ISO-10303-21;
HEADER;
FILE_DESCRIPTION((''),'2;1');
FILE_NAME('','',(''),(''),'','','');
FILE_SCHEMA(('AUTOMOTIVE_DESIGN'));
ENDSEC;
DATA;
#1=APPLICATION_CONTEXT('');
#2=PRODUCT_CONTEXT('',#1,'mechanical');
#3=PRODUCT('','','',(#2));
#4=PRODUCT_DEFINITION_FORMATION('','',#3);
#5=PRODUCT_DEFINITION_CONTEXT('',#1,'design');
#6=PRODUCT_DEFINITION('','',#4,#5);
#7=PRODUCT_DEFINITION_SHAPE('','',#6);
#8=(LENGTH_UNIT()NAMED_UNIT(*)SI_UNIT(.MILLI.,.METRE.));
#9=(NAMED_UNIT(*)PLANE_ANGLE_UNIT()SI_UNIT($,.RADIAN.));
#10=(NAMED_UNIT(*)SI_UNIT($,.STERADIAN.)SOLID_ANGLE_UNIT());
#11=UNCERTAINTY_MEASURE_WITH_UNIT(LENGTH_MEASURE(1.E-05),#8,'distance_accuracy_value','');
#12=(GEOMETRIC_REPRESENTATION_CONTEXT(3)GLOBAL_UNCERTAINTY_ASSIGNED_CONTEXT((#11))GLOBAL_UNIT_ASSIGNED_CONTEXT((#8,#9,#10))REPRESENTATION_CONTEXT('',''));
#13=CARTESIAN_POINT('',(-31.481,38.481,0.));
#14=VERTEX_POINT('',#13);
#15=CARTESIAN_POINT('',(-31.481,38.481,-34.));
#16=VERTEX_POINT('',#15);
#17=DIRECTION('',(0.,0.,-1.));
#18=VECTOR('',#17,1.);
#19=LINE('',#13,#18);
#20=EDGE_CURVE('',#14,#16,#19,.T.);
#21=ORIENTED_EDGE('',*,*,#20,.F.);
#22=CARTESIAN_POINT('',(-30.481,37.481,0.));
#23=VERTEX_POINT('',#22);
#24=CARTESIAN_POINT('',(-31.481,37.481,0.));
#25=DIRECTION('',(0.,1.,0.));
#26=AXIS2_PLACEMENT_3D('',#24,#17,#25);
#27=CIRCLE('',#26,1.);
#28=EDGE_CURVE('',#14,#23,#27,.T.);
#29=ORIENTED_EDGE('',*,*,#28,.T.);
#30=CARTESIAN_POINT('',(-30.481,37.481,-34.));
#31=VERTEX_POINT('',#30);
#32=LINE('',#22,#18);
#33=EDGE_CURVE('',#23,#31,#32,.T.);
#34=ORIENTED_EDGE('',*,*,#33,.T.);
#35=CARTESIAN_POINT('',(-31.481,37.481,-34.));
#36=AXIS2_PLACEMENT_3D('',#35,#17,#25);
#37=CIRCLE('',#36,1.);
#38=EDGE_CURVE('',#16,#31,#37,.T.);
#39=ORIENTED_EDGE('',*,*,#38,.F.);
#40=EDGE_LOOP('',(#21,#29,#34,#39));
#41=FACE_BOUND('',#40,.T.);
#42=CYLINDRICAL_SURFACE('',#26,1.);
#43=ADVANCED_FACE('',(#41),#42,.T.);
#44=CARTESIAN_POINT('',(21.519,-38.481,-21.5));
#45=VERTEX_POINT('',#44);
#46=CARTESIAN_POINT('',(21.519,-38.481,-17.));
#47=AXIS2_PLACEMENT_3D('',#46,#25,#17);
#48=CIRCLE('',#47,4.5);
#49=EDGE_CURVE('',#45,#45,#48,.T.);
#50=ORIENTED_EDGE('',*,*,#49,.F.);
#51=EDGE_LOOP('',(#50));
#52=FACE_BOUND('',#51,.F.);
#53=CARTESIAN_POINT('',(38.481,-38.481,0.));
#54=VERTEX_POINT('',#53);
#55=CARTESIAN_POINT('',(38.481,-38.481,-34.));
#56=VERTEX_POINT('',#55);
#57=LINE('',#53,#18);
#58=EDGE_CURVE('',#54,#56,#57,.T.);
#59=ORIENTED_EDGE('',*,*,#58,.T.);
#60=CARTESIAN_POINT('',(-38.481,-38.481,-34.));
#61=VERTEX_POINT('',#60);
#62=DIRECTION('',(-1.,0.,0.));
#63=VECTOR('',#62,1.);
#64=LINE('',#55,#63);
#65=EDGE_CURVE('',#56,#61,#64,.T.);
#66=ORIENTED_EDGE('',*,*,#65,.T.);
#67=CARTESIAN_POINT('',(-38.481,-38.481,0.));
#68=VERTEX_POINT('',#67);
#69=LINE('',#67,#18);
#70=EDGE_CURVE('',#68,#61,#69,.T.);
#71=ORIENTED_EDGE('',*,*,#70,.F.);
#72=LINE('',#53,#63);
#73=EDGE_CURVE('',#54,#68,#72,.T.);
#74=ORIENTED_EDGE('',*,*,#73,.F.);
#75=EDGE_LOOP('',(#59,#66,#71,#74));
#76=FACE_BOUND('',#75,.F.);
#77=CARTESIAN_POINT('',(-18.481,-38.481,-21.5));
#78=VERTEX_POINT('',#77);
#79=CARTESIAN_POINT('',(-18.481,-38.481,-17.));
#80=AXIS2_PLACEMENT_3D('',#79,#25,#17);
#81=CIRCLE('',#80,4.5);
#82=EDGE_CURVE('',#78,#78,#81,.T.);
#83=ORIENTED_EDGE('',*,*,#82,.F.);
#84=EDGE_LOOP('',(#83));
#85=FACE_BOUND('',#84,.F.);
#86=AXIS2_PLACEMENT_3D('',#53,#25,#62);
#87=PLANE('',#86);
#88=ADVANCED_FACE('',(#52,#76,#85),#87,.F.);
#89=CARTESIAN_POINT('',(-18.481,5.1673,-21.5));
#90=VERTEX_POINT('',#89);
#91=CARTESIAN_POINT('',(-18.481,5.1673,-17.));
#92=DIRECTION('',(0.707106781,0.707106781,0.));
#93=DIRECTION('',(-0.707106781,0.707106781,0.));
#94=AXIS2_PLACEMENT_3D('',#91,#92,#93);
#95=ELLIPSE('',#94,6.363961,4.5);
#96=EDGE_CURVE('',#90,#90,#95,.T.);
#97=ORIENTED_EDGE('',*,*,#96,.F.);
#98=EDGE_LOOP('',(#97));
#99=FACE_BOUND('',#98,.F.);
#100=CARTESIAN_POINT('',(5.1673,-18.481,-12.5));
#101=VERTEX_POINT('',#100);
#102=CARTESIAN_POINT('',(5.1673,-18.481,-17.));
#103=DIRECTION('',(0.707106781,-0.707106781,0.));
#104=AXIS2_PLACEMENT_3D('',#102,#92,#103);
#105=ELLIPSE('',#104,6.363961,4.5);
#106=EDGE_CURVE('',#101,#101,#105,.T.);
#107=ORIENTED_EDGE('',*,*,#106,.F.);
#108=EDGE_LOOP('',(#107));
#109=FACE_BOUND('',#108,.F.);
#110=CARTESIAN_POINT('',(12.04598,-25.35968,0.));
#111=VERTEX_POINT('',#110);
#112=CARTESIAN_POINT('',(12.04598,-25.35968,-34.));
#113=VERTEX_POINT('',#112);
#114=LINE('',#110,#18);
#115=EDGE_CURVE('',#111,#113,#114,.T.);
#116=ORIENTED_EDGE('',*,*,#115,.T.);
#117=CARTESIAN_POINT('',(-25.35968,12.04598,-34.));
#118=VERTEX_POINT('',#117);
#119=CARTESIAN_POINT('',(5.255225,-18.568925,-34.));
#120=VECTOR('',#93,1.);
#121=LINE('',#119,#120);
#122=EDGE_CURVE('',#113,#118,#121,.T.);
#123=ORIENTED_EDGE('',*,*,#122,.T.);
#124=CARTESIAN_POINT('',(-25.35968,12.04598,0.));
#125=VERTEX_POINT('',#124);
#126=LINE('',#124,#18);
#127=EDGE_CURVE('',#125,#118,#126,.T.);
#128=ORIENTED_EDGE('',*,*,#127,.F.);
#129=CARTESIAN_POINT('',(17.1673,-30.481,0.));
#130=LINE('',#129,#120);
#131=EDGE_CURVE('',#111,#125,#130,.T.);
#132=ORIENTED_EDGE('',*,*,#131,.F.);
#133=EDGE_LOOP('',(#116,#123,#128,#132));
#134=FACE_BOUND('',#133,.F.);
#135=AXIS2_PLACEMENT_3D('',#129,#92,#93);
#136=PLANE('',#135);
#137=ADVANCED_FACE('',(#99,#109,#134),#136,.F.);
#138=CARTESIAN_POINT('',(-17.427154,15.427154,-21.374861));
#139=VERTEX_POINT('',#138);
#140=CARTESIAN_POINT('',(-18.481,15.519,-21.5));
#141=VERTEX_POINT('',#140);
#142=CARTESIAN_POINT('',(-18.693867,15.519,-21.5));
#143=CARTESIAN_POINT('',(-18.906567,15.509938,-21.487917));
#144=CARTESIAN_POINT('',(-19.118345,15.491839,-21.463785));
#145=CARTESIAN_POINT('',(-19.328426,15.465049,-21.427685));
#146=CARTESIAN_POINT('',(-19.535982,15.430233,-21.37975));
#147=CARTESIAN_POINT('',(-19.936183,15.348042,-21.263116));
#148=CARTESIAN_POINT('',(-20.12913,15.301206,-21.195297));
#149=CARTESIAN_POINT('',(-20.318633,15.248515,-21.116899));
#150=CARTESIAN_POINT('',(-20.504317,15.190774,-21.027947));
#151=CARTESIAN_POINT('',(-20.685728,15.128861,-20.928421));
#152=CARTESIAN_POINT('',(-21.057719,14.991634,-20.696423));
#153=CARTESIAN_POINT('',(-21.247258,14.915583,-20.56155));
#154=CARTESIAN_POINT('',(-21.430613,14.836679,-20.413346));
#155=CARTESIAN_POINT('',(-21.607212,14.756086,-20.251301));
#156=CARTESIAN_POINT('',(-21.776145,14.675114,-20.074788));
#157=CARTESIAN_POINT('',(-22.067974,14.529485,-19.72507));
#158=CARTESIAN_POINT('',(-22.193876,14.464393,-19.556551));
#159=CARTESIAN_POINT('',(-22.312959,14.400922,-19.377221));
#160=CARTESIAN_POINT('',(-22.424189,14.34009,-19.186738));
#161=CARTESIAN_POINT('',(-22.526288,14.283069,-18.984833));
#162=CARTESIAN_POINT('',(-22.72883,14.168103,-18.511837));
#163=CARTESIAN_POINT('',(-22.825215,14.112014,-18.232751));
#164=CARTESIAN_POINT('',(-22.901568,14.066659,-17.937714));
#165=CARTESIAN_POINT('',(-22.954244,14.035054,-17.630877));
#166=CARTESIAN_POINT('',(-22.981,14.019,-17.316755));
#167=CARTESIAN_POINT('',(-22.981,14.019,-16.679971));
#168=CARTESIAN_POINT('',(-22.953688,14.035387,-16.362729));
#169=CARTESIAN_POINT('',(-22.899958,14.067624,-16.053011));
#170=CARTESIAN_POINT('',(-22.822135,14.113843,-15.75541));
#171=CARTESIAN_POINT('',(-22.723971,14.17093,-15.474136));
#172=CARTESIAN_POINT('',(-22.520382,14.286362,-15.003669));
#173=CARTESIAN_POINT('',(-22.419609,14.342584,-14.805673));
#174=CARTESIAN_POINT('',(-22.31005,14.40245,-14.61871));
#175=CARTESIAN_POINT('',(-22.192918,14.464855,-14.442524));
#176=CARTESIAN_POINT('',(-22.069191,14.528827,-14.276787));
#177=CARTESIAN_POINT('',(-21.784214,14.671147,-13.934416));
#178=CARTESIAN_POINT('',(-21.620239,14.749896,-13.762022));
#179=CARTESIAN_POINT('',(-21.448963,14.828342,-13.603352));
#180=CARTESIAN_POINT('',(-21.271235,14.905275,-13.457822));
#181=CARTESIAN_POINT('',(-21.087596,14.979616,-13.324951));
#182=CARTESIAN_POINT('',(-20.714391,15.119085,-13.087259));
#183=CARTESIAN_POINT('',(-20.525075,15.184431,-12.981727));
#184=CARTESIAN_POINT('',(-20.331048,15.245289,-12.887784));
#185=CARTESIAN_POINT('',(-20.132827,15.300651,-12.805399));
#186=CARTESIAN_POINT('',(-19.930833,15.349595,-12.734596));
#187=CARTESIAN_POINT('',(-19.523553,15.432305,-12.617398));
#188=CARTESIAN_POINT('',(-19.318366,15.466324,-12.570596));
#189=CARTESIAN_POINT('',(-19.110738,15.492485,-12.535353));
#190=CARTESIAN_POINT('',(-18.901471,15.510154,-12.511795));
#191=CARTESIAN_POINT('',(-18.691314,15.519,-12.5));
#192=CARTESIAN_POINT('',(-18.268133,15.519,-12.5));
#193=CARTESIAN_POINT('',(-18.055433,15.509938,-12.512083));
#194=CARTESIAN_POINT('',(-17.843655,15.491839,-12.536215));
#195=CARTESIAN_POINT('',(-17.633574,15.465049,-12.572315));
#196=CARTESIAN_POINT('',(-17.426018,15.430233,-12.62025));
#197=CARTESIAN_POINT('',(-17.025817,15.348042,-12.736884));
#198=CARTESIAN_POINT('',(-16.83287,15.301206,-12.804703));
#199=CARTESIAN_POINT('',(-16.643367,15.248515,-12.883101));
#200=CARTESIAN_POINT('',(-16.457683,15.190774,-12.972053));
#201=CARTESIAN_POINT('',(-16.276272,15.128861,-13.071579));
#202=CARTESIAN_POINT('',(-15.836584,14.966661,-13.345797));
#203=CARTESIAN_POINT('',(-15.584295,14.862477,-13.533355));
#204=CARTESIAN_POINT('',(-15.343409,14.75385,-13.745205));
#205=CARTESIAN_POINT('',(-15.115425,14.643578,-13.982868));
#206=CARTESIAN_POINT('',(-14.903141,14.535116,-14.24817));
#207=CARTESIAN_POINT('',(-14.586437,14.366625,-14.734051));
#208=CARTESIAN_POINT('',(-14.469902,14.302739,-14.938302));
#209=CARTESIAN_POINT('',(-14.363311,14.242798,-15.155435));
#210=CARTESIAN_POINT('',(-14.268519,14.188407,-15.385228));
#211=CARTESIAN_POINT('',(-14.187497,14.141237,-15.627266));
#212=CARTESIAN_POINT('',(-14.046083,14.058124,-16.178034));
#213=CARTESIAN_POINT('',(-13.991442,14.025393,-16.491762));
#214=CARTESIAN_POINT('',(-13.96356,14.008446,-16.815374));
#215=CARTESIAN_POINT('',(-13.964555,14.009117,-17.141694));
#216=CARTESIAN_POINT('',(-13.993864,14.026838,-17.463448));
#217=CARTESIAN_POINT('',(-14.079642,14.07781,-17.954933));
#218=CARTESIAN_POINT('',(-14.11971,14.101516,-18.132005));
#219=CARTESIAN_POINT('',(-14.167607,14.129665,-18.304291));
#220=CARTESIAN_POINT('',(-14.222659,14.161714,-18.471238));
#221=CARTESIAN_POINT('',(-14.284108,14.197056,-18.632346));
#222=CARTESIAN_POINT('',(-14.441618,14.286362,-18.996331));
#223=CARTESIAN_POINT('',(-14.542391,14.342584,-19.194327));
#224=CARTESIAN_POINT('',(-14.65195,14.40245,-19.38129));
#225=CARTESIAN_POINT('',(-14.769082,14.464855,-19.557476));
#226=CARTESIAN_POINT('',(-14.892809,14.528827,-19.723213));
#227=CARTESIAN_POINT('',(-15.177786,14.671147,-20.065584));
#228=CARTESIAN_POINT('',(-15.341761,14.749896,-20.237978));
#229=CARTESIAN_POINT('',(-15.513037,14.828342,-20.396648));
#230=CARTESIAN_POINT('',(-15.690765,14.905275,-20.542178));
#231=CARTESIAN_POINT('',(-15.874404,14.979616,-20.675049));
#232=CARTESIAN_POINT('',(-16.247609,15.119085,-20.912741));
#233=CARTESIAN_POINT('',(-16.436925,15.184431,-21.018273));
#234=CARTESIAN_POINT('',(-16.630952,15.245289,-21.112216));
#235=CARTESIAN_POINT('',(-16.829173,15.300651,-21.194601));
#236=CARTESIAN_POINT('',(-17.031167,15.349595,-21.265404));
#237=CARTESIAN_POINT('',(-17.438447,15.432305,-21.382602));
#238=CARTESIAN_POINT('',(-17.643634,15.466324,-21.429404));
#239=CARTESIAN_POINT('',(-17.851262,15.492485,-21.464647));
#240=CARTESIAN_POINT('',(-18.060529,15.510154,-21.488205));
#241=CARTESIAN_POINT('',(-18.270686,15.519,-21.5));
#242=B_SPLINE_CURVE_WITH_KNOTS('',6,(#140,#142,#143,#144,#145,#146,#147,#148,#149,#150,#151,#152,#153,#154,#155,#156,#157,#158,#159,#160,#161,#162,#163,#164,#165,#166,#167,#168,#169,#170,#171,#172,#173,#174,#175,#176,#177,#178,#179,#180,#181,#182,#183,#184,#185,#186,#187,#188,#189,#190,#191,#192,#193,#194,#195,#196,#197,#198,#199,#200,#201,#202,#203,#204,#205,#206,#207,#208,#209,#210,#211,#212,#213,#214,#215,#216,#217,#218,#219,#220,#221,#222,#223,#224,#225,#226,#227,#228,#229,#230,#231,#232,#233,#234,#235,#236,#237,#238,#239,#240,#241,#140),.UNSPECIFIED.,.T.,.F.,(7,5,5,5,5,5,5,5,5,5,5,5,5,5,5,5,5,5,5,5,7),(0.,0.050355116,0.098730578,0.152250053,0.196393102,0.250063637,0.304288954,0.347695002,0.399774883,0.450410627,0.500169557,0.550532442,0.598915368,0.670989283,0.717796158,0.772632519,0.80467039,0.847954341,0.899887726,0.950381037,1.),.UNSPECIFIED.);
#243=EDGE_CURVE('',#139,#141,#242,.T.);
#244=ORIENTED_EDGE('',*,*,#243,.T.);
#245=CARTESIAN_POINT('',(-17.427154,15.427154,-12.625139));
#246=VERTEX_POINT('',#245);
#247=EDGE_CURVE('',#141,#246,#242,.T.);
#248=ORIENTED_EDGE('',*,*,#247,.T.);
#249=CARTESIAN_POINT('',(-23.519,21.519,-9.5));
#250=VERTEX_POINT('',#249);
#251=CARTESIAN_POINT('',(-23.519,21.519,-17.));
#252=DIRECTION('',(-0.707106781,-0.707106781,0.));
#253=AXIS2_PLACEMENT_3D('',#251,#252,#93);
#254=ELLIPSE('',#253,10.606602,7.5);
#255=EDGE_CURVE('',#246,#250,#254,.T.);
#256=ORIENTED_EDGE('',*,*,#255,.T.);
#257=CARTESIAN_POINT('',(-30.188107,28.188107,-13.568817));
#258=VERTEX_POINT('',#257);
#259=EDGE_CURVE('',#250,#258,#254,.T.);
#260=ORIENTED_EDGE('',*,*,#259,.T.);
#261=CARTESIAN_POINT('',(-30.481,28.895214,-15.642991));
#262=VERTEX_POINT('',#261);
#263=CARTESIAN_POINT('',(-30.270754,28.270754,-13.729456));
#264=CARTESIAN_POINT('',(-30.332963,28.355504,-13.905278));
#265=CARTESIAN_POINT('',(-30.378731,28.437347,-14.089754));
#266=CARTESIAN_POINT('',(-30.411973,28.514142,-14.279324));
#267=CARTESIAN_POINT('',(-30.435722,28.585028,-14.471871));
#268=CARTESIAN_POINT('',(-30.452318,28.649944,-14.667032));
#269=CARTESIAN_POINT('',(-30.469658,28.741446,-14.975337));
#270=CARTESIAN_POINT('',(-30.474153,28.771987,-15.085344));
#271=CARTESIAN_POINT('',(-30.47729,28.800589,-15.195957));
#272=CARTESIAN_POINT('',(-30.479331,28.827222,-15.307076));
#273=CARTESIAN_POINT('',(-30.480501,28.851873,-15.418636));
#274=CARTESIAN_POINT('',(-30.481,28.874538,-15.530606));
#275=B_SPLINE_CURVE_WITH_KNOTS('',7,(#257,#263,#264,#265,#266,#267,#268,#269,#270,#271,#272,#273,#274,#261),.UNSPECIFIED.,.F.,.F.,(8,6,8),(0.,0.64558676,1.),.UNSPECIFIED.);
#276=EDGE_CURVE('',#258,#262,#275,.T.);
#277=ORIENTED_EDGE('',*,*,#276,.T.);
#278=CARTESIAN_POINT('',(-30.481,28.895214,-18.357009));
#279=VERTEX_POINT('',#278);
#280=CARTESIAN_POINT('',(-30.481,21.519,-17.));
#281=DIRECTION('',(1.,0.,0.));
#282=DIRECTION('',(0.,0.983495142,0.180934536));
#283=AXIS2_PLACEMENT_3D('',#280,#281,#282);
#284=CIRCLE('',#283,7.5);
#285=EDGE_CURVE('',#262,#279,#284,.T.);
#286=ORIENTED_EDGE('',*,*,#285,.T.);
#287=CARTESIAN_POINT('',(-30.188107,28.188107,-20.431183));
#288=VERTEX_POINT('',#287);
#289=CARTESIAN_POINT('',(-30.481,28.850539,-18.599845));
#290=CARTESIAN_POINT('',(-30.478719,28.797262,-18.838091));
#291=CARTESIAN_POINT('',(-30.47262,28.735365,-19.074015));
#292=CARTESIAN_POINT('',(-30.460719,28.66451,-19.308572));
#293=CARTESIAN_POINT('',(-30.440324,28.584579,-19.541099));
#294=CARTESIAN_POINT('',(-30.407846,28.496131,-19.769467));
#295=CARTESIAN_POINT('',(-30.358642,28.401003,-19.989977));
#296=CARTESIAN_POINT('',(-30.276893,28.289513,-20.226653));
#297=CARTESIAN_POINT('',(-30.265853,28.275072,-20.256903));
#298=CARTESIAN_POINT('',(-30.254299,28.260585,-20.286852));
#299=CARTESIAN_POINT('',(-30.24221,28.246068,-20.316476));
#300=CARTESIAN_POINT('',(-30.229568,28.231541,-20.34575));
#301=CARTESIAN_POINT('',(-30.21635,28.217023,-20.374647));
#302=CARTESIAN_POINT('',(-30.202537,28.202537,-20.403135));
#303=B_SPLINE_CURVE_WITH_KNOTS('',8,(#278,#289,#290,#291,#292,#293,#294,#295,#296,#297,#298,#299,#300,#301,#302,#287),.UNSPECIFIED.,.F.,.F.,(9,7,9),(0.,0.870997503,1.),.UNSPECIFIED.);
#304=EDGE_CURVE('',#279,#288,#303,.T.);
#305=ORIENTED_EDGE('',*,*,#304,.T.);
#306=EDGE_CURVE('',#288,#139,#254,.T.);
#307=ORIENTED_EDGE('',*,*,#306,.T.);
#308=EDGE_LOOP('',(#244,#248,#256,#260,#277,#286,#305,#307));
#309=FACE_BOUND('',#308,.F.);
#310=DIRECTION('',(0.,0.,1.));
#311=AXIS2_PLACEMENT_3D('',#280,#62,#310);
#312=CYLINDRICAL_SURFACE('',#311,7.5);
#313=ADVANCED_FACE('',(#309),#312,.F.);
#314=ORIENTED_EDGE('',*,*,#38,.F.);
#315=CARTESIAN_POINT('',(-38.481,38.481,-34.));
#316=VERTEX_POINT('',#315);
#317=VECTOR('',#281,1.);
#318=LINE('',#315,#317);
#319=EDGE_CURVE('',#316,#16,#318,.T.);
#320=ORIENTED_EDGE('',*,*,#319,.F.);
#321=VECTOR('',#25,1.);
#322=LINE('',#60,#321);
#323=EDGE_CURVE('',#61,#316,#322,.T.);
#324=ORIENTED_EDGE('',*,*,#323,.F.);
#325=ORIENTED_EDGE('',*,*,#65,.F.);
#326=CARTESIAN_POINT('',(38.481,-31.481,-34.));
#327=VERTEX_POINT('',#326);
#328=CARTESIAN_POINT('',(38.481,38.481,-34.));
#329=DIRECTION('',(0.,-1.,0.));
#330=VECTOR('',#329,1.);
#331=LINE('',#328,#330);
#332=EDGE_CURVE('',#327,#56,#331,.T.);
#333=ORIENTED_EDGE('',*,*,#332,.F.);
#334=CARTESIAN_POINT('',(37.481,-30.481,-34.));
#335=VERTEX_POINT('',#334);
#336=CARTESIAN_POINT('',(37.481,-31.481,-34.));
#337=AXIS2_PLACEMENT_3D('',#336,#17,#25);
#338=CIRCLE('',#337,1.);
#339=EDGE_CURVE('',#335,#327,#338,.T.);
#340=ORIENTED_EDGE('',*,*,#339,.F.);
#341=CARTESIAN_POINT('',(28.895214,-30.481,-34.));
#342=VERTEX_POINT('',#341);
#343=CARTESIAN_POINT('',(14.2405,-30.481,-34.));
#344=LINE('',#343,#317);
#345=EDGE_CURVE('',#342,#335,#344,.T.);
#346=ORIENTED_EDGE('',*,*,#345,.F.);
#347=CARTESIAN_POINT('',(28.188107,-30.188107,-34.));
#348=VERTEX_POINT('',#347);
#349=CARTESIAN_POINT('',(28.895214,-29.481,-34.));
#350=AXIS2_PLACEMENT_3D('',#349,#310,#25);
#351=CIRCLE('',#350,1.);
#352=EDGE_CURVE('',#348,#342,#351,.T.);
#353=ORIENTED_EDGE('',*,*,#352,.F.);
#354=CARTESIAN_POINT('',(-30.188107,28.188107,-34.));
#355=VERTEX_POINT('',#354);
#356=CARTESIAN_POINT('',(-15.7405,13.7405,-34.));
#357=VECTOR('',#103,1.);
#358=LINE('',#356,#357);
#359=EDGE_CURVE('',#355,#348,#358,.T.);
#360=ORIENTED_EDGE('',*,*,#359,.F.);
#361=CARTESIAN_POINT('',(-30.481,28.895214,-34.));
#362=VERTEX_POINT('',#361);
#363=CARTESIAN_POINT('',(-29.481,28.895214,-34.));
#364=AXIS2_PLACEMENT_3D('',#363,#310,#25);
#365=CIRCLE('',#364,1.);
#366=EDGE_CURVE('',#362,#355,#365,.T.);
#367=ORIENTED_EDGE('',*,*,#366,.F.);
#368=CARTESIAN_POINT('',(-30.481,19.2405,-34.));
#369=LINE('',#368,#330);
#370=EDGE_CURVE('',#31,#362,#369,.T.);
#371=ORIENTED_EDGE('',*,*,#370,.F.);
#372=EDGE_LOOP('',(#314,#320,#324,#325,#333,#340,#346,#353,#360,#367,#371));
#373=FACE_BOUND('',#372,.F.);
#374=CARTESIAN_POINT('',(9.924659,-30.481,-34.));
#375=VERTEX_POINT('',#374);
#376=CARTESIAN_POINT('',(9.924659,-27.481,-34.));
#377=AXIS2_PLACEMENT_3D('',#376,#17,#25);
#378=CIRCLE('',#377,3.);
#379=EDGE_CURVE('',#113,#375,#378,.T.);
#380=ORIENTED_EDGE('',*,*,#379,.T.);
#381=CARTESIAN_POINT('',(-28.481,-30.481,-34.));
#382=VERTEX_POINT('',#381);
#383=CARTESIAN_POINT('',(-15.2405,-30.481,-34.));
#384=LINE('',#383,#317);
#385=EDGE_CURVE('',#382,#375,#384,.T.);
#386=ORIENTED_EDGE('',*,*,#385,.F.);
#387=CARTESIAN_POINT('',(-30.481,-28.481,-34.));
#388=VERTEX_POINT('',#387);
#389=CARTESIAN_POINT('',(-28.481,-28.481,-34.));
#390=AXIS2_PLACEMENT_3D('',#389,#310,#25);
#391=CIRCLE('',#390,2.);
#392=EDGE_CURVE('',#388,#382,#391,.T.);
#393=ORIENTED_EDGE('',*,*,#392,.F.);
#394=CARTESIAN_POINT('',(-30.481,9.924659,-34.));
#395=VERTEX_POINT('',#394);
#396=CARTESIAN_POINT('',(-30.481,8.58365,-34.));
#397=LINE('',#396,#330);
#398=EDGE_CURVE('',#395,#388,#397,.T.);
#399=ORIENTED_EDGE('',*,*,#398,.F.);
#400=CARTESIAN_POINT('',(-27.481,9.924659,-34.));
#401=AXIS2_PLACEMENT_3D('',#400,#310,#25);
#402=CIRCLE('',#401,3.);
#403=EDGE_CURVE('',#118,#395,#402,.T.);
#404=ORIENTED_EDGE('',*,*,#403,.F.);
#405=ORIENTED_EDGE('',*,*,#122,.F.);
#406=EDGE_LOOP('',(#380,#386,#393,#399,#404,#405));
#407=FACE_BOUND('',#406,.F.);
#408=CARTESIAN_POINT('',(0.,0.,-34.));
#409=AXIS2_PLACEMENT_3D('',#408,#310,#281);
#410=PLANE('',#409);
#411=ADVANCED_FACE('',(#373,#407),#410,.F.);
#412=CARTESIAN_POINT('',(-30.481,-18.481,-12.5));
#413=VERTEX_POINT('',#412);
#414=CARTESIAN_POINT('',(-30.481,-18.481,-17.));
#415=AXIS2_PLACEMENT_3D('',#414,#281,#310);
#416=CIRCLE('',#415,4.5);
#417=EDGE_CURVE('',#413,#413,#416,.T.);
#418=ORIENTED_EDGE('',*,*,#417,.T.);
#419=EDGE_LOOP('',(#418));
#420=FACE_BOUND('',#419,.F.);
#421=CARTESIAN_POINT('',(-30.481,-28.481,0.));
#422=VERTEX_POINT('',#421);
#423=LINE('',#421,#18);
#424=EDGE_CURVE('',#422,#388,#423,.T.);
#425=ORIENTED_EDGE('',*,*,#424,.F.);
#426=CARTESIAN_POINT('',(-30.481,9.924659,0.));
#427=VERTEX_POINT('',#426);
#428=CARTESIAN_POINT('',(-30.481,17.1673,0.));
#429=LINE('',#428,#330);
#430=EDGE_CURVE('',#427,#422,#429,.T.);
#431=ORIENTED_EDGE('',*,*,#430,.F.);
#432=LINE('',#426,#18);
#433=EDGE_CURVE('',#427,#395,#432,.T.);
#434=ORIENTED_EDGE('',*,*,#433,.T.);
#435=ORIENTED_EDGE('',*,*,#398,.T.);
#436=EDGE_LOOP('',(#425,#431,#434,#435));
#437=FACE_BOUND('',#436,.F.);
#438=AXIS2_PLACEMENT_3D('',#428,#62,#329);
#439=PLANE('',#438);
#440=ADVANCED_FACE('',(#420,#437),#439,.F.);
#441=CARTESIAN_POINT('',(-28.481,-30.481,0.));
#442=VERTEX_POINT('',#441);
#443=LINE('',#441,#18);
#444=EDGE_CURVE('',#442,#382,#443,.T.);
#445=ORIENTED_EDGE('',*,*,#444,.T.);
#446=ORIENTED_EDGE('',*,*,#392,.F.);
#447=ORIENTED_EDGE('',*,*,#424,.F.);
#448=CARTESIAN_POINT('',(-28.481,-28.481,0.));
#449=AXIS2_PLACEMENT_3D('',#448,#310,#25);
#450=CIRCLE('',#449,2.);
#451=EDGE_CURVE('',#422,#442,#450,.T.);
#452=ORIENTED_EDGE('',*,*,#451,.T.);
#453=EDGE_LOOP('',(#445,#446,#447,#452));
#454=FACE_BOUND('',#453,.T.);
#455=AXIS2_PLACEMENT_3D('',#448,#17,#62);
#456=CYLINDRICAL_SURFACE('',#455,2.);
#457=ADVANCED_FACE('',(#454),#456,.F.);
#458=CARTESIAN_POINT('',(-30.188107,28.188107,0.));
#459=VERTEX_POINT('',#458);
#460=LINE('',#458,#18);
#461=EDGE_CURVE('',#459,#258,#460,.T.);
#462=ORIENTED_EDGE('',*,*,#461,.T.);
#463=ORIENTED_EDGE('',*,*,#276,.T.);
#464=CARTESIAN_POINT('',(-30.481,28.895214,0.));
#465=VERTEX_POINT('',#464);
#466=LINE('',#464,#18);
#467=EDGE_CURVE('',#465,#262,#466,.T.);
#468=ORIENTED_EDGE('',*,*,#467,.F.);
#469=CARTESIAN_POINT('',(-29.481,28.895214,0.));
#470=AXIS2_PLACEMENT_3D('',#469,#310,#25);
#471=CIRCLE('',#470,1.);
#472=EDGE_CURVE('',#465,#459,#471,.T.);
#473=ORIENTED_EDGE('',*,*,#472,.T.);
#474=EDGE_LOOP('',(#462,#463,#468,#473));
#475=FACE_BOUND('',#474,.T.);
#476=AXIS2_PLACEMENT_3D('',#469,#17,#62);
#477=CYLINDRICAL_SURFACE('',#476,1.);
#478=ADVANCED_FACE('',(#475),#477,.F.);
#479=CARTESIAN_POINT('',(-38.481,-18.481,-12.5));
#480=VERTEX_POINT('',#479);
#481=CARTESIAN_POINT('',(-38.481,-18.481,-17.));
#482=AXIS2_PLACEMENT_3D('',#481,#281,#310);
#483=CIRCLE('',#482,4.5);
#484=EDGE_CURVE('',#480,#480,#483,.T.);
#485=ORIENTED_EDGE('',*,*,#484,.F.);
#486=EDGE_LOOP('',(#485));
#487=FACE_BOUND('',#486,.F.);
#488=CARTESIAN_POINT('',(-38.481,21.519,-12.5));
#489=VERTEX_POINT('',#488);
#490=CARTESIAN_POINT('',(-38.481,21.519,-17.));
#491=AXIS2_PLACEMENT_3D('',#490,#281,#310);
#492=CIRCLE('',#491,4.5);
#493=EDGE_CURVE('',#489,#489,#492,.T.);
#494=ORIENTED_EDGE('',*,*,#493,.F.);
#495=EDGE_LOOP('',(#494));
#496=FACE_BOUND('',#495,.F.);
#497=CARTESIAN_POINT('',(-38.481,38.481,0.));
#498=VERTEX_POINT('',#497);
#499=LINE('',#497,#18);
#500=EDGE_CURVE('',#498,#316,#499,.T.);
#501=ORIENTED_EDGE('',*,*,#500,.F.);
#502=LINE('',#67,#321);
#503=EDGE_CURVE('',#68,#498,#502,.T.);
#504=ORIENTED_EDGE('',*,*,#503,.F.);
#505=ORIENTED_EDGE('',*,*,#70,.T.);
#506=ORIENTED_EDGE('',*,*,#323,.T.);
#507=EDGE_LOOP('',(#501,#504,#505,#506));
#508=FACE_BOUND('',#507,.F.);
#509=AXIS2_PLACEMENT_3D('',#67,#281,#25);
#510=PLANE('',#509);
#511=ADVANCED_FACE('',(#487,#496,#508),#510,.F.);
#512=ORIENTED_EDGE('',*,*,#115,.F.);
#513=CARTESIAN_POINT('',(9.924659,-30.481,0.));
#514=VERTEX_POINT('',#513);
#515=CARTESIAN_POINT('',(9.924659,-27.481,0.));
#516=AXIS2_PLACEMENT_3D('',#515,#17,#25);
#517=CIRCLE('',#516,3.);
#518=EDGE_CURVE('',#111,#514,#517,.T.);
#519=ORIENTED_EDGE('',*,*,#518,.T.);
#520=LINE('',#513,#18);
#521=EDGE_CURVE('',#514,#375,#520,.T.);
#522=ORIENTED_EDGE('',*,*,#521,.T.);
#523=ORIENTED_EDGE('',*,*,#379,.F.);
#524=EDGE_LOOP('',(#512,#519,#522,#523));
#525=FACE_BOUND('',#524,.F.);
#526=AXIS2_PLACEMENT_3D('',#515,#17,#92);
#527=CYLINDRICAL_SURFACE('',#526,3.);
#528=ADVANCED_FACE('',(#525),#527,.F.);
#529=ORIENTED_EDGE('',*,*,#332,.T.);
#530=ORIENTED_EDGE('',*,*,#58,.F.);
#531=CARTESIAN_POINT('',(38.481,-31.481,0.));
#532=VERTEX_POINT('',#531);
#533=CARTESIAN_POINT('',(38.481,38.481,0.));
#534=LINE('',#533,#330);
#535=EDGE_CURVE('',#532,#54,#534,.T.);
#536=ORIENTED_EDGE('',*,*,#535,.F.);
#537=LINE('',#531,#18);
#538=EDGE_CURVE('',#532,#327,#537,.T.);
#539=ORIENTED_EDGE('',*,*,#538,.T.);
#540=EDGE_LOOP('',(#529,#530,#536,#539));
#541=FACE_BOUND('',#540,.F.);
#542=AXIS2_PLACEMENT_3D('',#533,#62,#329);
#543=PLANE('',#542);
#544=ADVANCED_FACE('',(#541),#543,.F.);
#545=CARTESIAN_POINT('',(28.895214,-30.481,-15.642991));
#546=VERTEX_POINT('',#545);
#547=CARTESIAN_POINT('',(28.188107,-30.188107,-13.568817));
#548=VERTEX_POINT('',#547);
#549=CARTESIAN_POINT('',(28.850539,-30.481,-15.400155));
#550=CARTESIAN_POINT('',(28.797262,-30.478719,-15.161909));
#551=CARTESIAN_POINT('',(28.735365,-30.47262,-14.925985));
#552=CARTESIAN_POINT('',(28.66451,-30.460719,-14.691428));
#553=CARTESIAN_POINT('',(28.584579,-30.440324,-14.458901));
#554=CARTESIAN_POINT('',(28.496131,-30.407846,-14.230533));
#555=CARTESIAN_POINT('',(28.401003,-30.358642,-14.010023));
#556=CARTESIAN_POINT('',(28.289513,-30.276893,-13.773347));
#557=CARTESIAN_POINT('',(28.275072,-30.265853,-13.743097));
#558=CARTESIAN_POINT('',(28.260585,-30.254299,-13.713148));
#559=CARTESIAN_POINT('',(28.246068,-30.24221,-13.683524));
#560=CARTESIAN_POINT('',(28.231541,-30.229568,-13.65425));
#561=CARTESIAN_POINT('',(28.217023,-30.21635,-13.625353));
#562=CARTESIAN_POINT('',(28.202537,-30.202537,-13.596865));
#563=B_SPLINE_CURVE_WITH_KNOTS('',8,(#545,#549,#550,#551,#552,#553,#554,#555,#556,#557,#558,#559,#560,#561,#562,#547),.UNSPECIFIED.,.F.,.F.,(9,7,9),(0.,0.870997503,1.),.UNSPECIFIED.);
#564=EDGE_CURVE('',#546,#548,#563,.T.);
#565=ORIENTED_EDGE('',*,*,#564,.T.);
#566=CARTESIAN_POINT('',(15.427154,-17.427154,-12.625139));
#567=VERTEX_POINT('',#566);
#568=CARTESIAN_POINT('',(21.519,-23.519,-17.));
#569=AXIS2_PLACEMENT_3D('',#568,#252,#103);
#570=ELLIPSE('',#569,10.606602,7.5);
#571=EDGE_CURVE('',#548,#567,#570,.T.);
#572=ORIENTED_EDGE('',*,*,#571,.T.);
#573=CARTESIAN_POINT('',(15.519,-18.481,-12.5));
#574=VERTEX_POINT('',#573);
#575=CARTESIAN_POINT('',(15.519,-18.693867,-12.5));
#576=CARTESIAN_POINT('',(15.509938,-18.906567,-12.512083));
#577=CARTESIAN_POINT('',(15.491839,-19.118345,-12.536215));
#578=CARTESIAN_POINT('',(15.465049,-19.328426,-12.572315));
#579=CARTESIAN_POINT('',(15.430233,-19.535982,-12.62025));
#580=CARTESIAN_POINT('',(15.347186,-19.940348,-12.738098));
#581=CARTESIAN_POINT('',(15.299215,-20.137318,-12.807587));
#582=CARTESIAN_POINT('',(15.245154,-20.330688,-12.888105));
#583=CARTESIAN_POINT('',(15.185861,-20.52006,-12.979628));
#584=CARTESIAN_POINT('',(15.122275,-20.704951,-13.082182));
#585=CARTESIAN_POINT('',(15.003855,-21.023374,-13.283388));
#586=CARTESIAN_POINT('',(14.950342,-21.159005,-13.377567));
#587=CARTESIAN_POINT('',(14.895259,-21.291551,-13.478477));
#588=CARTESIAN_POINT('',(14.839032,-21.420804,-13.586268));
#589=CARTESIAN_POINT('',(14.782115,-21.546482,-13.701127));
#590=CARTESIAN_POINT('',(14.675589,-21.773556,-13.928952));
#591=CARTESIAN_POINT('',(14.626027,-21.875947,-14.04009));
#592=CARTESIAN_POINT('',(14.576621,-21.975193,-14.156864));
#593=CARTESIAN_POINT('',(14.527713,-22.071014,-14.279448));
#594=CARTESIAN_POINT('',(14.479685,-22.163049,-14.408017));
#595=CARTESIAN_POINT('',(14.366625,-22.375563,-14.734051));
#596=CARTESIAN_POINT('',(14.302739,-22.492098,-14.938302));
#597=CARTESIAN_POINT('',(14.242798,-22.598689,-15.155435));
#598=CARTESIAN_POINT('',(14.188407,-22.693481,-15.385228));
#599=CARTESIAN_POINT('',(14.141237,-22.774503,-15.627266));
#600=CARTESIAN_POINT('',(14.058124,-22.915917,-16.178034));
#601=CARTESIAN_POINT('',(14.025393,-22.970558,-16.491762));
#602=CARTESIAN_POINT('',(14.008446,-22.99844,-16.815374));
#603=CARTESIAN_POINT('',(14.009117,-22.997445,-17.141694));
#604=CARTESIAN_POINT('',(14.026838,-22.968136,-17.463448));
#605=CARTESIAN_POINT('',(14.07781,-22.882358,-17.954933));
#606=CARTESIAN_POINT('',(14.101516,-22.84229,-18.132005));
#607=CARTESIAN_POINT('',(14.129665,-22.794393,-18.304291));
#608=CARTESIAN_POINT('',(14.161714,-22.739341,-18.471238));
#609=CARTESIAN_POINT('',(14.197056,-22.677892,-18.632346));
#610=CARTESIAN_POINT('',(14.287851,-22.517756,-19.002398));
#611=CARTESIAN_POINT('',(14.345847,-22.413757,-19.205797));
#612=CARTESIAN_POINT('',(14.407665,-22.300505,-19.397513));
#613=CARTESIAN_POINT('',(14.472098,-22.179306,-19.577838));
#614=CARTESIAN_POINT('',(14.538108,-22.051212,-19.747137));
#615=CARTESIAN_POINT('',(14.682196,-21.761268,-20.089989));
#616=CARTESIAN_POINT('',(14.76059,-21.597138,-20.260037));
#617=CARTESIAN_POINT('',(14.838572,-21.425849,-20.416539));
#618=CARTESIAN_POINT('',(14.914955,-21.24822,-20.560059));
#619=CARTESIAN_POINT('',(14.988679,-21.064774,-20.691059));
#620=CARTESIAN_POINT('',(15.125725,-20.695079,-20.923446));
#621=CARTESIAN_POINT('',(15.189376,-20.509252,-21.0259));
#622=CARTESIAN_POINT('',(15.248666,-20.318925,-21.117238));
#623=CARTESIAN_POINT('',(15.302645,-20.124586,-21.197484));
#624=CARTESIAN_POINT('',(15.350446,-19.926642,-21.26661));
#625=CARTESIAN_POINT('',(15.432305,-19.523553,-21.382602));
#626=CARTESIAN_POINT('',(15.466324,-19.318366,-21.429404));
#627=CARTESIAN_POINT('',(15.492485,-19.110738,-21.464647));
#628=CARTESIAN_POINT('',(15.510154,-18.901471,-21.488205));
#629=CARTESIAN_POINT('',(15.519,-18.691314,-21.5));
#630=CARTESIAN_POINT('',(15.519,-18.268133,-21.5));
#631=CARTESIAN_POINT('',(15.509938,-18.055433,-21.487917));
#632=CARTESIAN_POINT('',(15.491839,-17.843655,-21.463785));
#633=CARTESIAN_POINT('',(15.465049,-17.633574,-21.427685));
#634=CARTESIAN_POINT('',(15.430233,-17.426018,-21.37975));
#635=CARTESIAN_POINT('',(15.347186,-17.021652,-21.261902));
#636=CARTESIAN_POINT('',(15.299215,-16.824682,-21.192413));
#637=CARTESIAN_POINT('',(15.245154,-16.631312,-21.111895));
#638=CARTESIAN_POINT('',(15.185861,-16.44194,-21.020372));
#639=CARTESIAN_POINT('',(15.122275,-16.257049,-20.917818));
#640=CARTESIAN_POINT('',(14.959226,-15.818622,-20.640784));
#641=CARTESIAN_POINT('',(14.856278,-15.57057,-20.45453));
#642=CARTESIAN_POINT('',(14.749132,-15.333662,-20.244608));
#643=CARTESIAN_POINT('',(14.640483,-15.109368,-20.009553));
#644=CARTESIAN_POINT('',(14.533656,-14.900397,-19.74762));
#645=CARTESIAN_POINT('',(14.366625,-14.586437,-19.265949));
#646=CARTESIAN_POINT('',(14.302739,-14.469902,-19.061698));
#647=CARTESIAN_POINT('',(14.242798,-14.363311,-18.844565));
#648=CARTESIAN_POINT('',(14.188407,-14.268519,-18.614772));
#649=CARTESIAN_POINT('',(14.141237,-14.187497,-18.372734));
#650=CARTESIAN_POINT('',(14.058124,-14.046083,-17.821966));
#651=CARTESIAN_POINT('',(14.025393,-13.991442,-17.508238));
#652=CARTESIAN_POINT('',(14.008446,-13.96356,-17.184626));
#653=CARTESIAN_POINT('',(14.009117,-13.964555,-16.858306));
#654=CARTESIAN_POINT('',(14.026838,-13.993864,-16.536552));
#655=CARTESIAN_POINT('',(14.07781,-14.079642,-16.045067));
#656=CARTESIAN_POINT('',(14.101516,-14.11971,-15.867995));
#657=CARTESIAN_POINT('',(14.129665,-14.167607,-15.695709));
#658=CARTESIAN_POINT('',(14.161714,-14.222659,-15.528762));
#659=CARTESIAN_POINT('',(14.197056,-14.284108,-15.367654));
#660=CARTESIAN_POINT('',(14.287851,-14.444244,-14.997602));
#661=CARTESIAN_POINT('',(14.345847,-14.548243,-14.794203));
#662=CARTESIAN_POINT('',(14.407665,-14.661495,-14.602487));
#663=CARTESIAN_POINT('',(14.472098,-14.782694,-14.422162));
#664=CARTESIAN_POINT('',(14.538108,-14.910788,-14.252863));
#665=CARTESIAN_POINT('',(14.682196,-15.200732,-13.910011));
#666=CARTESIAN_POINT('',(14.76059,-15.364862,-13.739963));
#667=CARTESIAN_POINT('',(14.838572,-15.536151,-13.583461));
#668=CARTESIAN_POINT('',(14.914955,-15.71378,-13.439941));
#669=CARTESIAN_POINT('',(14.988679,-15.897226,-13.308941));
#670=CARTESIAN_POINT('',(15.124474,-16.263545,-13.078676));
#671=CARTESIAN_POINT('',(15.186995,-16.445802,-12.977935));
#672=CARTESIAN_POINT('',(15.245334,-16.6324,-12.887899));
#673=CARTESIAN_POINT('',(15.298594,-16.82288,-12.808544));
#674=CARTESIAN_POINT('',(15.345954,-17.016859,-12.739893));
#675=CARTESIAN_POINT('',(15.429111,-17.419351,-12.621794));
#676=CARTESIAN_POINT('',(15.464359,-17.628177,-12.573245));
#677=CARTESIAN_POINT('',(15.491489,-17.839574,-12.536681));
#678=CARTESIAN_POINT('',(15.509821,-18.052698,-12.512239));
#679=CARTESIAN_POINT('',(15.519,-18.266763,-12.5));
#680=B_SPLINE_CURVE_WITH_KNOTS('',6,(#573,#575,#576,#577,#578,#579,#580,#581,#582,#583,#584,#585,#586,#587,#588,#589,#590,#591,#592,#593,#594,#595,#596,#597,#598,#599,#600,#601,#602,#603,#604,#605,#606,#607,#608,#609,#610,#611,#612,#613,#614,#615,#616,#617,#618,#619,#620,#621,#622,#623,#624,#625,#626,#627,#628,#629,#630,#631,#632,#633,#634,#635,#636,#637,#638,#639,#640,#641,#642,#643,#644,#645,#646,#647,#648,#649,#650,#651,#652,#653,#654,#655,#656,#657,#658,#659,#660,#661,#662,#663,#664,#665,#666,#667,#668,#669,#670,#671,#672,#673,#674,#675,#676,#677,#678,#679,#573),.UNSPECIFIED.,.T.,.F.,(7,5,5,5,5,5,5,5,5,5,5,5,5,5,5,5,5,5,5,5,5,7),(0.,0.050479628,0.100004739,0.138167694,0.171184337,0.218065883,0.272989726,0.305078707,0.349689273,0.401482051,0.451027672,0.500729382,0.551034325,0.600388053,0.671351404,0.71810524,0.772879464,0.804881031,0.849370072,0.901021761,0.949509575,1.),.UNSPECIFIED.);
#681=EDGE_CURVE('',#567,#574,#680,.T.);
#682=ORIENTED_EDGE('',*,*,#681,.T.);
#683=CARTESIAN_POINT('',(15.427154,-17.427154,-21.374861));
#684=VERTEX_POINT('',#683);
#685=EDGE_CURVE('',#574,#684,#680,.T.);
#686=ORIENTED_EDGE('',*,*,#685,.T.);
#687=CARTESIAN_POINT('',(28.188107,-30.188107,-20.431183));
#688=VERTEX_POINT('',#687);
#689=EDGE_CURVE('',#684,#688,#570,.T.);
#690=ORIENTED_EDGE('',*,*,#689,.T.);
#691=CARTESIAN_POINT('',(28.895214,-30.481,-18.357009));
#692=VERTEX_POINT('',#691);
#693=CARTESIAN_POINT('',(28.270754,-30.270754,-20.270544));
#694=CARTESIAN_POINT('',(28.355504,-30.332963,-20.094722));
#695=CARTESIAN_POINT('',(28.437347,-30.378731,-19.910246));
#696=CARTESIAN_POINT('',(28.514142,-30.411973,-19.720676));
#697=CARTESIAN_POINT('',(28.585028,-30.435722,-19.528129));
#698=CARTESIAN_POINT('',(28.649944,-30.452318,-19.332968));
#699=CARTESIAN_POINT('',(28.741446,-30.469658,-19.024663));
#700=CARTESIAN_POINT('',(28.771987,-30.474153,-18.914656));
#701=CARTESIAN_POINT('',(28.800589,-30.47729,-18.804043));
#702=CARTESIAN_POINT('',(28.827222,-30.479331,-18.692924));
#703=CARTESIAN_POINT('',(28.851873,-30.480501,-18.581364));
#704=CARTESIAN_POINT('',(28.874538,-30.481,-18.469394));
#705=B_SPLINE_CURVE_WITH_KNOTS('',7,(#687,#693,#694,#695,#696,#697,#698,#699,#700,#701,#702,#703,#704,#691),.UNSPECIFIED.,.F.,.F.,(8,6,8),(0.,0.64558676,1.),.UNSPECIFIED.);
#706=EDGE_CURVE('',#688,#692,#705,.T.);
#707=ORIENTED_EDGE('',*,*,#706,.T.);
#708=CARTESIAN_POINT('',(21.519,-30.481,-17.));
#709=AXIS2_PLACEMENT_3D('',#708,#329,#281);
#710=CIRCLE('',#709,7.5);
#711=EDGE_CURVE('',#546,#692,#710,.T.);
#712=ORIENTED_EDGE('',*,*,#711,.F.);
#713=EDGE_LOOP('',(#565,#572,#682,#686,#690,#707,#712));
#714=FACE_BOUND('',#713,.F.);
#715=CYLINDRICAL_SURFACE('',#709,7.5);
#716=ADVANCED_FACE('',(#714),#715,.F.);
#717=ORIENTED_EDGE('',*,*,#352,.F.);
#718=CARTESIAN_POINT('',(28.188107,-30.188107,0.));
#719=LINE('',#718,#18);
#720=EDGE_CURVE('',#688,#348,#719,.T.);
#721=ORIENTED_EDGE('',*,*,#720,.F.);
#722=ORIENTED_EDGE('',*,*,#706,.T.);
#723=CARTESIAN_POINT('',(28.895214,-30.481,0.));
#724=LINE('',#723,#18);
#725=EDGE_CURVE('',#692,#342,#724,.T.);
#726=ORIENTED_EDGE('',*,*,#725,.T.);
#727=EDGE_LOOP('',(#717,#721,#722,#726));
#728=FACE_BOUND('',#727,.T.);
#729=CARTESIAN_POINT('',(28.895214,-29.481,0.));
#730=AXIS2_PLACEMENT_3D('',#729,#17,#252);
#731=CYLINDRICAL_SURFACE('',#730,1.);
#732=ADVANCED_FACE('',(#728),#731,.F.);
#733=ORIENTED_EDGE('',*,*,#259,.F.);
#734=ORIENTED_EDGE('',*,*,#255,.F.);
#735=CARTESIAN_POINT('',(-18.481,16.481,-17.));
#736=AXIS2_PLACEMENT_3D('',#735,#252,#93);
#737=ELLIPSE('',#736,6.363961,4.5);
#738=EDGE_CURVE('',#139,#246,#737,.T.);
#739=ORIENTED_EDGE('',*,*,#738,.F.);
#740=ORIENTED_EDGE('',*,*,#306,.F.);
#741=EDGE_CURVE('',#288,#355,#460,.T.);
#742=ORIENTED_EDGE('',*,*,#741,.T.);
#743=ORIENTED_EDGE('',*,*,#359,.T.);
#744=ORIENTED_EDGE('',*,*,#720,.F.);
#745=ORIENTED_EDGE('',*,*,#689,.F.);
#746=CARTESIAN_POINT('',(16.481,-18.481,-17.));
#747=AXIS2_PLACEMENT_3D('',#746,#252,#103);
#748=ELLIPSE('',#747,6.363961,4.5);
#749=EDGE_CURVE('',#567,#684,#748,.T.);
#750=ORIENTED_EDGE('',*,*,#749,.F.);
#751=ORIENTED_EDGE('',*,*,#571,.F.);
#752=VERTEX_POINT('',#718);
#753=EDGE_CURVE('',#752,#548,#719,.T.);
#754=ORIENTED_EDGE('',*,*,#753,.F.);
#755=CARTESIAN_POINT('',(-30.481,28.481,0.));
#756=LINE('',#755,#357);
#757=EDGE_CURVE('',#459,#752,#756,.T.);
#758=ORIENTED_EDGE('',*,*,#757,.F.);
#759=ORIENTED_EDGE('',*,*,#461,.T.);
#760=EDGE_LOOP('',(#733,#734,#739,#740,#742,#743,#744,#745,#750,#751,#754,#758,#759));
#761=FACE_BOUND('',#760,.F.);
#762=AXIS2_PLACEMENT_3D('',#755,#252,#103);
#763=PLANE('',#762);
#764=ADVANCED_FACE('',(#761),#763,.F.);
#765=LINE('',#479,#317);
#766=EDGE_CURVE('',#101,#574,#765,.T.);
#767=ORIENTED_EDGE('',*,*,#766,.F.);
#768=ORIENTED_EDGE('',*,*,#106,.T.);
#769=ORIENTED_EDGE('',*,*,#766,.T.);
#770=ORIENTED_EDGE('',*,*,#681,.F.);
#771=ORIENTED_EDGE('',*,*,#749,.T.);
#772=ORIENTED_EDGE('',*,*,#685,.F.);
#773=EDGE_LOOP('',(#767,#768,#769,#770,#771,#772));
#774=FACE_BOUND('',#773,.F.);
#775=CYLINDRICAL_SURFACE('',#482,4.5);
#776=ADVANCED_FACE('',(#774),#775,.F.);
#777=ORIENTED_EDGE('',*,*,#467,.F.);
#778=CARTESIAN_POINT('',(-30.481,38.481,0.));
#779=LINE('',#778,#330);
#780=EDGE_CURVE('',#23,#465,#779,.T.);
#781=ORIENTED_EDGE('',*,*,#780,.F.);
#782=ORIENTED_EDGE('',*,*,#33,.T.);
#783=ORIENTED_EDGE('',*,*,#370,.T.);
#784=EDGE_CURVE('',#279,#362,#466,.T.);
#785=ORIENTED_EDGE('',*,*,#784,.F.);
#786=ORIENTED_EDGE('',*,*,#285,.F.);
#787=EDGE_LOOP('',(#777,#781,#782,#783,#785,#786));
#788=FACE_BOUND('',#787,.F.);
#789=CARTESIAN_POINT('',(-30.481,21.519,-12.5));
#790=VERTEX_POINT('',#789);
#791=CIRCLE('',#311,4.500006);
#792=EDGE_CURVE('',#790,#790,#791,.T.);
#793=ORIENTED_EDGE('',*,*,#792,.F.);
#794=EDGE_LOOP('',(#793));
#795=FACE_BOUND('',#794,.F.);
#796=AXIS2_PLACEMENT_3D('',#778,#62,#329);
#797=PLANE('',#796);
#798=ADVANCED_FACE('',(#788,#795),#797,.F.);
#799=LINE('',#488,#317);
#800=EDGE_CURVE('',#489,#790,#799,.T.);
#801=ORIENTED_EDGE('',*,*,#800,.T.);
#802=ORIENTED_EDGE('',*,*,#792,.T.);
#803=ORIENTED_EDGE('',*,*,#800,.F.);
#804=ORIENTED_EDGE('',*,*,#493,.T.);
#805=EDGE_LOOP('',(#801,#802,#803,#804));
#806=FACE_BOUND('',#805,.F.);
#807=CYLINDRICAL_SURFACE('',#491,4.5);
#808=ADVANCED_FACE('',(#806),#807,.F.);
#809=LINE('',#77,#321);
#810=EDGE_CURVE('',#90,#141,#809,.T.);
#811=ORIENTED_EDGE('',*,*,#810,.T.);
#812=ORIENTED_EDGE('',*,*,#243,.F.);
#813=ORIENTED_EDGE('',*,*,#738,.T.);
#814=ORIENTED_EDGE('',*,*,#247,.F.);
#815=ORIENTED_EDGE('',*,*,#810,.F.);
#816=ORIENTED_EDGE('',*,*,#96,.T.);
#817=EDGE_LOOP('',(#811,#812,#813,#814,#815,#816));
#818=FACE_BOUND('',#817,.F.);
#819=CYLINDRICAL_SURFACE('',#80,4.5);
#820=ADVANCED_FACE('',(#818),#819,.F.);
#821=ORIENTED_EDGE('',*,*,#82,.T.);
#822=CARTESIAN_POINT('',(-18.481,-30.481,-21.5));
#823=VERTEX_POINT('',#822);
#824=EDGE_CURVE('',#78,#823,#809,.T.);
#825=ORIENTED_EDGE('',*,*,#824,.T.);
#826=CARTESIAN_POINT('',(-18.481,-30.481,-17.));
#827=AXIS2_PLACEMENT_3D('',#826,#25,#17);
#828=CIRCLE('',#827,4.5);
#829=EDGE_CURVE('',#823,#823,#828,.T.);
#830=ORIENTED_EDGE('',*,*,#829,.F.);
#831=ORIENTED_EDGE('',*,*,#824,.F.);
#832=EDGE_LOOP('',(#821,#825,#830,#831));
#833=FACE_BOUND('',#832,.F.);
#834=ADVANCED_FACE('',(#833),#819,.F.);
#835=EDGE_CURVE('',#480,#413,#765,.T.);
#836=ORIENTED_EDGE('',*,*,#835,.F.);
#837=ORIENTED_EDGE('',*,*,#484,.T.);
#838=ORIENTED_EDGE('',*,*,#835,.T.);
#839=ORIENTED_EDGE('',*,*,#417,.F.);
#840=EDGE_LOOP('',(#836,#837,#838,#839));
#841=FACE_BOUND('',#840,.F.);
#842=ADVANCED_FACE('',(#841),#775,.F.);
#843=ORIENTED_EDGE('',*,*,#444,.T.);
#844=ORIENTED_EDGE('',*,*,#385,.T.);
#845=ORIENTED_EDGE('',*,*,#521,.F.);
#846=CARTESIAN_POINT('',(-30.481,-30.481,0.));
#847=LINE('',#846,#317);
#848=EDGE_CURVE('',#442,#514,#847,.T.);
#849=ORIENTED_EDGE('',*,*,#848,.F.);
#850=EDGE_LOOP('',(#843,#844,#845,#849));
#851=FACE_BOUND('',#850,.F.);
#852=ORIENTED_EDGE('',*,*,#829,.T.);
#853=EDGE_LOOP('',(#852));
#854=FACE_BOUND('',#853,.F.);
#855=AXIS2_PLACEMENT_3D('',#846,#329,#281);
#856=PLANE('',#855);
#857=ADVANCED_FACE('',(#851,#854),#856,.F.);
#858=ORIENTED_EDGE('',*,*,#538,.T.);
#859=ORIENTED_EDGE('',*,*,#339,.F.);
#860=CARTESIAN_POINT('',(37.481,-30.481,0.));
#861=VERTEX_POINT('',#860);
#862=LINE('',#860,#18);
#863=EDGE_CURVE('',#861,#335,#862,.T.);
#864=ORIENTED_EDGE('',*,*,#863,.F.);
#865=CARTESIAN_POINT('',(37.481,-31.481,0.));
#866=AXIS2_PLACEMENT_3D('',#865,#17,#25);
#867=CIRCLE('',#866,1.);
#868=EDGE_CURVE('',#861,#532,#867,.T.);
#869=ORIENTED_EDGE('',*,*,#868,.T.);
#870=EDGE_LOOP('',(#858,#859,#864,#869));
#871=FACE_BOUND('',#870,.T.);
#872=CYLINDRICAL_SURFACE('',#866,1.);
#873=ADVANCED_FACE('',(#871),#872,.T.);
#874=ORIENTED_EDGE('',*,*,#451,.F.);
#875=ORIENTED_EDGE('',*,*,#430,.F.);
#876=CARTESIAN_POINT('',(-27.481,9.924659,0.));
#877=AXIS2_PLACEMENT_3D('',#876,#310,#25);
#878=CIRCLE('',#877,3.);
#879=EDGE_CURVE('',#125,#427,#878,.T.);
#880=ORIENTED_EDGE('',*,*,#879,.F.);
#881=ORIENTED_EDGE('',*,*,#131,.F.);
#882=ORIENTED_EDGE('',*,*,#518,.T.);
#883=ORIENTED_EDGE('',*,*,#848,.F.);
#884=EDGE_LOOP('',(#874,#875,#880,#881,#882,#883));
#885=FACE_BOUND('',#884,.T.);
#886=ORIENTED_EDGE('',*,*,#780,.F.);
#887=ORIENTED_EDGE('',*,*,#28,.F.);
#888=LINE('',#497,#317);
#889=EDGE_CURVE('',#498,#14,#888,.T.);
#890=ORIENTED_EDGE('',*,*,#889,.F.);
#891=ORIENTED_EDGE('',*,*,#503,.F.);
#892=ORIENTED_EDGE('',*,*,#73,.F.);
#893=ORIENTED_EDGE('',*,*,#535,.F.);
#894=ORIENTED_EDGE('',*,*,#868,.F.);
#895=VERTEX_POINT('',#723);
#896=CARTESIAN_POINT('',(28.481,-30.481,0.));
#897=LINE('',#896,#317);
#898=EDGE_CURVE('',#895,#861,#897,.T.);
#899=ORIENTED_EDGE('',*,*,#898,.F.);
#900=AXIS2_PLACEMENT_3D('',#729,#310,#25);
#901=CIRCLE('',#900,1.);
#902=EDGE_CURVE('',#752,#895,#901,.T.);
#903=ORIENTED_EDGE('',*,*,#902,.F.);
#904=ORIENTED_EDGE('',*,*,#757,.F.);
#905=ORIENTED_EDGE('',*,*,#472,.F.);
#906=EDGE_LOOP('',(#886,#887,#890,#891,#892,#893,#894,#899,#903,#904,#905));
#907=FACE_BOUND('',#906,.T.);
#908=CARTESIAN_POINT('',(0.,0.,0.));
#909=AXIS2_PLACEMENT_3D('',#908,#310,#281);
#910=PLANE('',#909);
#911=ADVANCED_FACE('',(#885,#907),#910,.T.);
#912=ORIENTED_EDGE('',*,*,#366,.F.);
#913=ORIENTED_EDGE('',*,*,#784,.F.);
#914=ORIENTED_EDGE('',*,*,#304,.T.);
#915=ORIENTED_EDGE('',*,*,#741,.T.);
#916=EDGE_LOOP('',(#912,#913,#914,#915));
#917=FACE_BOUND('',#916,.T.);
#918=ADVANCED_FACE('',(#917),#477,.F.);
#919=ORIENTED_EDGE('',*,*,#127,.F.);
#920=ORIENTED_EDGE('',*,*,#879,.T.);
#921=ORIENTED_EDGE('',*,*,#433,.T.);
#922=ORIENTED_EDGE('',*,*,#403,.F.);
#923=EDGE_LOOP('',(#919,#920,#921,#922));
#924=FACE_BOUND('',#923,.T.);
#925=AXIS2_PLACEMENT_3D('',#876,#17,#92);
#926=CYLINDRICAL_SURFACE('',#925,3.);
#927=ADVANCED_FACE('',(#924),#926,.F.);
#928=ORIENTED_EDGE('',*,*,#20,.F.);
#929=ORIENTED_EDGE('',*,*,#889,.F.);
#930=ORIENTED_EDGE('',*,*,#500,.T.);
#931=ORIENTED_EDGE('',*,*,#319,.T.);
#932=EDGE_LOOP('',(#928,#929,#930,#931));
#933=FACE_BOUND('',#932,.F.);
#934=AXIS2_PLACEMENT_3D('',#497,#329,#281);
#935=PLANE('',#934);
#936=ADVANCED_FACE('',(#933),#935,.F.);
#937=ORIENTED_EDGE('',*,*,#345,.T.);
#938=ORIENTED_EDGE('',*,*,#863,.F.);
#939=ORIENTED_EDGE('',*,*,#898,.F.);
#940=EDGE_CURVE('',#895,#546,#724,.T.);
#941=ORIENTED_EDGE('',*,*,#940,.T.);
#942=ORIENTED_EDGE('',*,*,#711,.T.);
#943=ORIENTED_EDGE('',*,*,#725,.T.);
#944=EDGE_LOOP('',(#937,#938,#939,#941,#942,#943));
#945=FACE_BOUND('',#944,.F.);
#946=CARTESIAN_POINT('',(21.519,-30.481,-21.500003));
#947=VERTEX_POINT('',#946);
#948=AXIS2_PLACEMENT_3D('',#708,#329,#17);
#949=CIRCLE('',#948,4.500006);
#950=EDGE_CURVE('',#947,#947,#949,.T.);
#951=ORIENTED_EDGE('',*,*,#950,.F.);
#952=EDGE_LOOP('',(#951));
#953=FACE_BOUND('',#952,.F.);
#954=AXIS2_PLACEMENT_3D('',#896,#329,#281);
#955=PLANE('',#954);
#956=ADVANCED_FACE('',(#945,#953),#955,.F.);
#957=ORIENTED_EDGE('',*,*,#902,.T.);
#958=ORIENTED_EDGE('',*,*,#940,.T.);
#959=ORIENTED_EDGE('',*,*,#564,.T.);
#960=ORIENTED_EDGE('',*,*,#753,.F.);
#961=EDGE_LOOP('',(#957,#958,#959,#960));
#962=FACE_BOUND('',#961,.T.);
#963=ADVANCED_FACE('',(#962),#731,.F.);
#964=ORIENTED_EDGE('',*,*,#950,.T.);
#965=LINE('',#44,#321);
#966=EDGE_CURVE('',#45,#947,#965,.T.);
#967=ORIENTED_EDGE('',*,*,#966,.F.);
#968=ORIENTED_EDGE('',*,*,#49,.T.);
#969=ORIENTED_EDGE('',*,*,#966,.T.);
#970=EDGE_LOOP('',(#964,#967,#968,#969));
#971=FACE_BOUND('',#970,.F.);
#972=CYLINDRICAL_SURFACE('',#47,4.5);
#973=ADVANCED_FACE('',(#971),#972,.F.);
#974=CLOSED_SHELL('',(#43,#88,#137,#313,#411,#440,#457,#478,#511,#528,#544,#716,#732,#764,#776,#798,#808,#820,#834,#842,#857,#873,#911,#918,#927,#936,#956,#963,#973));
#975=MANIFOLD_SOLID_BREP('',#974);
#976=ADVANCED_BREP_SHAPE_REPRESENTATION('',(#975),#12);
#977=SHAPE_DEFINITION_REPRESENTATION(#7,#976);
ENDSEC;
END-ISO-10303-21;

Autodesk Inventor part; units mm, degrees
ref_plane "YZ Plane" through (0, 0, 0) normal (1, 0, 0) x (0, 1, 0)
sketch "Sketch1" plane through (0, 0, 0) normal (0, 0, 1) x (1, 0, 0)
  line L0 (-38.481, 38.481) -> (38.481, 38.481)
  line L1 (38.481, 38.481) -> (38.481, -38.481)
  line L2 (38.481, -38.481) -> (-38.481, -38.481)
  line L3 (-38.481, -38.481) -> (-38.481, 38.481)
  point P0 (0, 0)
  dimension "d0" = 76.962
  dimension "d1" = 76.962
  dimension "d2" = 38.481
  dimension "d3" = 38.481
extrude "Extrusion1" add sketch "Sketch1" against normal blind 34
sketch "Sketch2" plane through (0, 0, 0) normal (0, 0, 1) x (1, 0, 0)
  line L0 (-38.481, 38.481) -> (38.481, 38.481) projected
  line L1 (-38.481, -38.481) -> (-38.481, 38.481) projected
  line L2 (38.481, -38.481) -> (-38.481, -38.481) projected
  line L3 (38.481, 38.481) -> (38.481, -38.481) projected
  line L4 (-30.481, 38.481) -> (-30.481, 28.481)
  line L5 (-30.481, 28.481) -> (28.481, -30.481)
  line L6 (28.481, -30.481) -> (38.481, -30.481)
  line L7 (-30.481, 17.1673) -> (-30.481, -30.481)
  line L8 (-30.481, -30.481) -> (17.1673, -30.481)
  line L9 (17.1673, -30.481) -> (-30.481, 17.1673)
  dimension "d6" = 8
  dimension "d7" = 8
  dimension "d8" = 10
  dimension "d10" = 135
  dimension "d11" = 8
extrude "Extrusion2" cut sketch "Sketch2" against normal through all contours L0 L3 L6 L5 L4 | L9 L8 L7
fillet "Fillet1" radius 2 1 edges at (-30.481, -30.481, -17)
fillet "Fillet1" radius 1 4 edges at (-30.481, 38.481, -17) (-30.481, 28.481, -17) (28.481, -30.481, -17) (38.481, -30.481, -17)
fillet "Fillet1" radius 3 2 edges at (-30.481, 17.1673, -17) (17.1673, -30.481, -17)
sketch "Sketch3" plane through (-38.481, -38.481, 0) normal (-1, 0, 0) x (0, 0, 1)
  line L0 (0, 0) -> (-34, 0) projected
  line L1 (0, 0) -> (0, 76.962) projected
  point P0 (-17, 60)
  point P1 (-17, 20)
  dimension "d17" = 17
  dimension "d18" = 20
  dimension "d19" = 40
hole "Hole1" at (-38.481, 21.519, -17) at (-38.481, -18.481, -17) direction (1, 0, 0) diameter 9 end through all
sketch "Sketch4" plane through (-38.481, -38.481, 0) normal (0, -1, 0) x (1, 0, 0)
  line L0 (0, -34) -> (76.962, -34) projected
  line L1 (0, 0) -> (0, -34) projected
  point P0 (20, -17)
  point P1 (60, -17)
  dimension "d27" = 17
  dimension "d28" = 20
  dimension "d29" = 40
hole "Hole2" at (-18.481, -38.481, -17) at (21.519, -38.481, -17) direction (0, 1, 0) diameter 9 end through all
ref_plane "Work Plane1" through (-30.481, -38.481, 0) normal (-1, 0, 0) x (0, 0, 1)
ref_plane "Work Plane2" through (-38.481, -30.481, 0) normal (0, -1, 0) x (1, 0, 0)
sketch "Sketch5" plane through (-30.481, -38.481, 0) normal (-1, 0, 0) x (0, 0, 1)
  arc A0 (-13.2711, 57.481) -> (-20.7289, 57.481) centre (-17, 60) ccw projected
  circle A1 centre (-17, 60) radius 4.5 projected
  circle A2 centre (-17, 60) radius 7.5
  dimension "d39" = 15
extrude "Extrusion3" cut sketch "Sketch5" against normal through all
sketch "Sketch6" plane through (-38.481, -30.481, 0) normal (0, -1, 0) x (1, 0, 0)
  arc A0 (57.481, -20.7289) -> (57.481, -13.2711) centre (60, -17) ccw projected
  circle A1 centre (60, -17) radius 4.5 projected
  circle A2 centre (60, -17) radius 7.5
  dimension "d42" = 15
extrude "Extrusion4" cut sketch "Sketch6" against normal through all
ref_plane "OffsetPlane" through (0, 0, -17) normal (0, 0, 1) x (1, 0, 0)
equation "\"d2\" = 0.5 * d0"
equation "\"d3\" = 0.5 * d1"
properties part number "20-102" material "Alluminio - 6061"
